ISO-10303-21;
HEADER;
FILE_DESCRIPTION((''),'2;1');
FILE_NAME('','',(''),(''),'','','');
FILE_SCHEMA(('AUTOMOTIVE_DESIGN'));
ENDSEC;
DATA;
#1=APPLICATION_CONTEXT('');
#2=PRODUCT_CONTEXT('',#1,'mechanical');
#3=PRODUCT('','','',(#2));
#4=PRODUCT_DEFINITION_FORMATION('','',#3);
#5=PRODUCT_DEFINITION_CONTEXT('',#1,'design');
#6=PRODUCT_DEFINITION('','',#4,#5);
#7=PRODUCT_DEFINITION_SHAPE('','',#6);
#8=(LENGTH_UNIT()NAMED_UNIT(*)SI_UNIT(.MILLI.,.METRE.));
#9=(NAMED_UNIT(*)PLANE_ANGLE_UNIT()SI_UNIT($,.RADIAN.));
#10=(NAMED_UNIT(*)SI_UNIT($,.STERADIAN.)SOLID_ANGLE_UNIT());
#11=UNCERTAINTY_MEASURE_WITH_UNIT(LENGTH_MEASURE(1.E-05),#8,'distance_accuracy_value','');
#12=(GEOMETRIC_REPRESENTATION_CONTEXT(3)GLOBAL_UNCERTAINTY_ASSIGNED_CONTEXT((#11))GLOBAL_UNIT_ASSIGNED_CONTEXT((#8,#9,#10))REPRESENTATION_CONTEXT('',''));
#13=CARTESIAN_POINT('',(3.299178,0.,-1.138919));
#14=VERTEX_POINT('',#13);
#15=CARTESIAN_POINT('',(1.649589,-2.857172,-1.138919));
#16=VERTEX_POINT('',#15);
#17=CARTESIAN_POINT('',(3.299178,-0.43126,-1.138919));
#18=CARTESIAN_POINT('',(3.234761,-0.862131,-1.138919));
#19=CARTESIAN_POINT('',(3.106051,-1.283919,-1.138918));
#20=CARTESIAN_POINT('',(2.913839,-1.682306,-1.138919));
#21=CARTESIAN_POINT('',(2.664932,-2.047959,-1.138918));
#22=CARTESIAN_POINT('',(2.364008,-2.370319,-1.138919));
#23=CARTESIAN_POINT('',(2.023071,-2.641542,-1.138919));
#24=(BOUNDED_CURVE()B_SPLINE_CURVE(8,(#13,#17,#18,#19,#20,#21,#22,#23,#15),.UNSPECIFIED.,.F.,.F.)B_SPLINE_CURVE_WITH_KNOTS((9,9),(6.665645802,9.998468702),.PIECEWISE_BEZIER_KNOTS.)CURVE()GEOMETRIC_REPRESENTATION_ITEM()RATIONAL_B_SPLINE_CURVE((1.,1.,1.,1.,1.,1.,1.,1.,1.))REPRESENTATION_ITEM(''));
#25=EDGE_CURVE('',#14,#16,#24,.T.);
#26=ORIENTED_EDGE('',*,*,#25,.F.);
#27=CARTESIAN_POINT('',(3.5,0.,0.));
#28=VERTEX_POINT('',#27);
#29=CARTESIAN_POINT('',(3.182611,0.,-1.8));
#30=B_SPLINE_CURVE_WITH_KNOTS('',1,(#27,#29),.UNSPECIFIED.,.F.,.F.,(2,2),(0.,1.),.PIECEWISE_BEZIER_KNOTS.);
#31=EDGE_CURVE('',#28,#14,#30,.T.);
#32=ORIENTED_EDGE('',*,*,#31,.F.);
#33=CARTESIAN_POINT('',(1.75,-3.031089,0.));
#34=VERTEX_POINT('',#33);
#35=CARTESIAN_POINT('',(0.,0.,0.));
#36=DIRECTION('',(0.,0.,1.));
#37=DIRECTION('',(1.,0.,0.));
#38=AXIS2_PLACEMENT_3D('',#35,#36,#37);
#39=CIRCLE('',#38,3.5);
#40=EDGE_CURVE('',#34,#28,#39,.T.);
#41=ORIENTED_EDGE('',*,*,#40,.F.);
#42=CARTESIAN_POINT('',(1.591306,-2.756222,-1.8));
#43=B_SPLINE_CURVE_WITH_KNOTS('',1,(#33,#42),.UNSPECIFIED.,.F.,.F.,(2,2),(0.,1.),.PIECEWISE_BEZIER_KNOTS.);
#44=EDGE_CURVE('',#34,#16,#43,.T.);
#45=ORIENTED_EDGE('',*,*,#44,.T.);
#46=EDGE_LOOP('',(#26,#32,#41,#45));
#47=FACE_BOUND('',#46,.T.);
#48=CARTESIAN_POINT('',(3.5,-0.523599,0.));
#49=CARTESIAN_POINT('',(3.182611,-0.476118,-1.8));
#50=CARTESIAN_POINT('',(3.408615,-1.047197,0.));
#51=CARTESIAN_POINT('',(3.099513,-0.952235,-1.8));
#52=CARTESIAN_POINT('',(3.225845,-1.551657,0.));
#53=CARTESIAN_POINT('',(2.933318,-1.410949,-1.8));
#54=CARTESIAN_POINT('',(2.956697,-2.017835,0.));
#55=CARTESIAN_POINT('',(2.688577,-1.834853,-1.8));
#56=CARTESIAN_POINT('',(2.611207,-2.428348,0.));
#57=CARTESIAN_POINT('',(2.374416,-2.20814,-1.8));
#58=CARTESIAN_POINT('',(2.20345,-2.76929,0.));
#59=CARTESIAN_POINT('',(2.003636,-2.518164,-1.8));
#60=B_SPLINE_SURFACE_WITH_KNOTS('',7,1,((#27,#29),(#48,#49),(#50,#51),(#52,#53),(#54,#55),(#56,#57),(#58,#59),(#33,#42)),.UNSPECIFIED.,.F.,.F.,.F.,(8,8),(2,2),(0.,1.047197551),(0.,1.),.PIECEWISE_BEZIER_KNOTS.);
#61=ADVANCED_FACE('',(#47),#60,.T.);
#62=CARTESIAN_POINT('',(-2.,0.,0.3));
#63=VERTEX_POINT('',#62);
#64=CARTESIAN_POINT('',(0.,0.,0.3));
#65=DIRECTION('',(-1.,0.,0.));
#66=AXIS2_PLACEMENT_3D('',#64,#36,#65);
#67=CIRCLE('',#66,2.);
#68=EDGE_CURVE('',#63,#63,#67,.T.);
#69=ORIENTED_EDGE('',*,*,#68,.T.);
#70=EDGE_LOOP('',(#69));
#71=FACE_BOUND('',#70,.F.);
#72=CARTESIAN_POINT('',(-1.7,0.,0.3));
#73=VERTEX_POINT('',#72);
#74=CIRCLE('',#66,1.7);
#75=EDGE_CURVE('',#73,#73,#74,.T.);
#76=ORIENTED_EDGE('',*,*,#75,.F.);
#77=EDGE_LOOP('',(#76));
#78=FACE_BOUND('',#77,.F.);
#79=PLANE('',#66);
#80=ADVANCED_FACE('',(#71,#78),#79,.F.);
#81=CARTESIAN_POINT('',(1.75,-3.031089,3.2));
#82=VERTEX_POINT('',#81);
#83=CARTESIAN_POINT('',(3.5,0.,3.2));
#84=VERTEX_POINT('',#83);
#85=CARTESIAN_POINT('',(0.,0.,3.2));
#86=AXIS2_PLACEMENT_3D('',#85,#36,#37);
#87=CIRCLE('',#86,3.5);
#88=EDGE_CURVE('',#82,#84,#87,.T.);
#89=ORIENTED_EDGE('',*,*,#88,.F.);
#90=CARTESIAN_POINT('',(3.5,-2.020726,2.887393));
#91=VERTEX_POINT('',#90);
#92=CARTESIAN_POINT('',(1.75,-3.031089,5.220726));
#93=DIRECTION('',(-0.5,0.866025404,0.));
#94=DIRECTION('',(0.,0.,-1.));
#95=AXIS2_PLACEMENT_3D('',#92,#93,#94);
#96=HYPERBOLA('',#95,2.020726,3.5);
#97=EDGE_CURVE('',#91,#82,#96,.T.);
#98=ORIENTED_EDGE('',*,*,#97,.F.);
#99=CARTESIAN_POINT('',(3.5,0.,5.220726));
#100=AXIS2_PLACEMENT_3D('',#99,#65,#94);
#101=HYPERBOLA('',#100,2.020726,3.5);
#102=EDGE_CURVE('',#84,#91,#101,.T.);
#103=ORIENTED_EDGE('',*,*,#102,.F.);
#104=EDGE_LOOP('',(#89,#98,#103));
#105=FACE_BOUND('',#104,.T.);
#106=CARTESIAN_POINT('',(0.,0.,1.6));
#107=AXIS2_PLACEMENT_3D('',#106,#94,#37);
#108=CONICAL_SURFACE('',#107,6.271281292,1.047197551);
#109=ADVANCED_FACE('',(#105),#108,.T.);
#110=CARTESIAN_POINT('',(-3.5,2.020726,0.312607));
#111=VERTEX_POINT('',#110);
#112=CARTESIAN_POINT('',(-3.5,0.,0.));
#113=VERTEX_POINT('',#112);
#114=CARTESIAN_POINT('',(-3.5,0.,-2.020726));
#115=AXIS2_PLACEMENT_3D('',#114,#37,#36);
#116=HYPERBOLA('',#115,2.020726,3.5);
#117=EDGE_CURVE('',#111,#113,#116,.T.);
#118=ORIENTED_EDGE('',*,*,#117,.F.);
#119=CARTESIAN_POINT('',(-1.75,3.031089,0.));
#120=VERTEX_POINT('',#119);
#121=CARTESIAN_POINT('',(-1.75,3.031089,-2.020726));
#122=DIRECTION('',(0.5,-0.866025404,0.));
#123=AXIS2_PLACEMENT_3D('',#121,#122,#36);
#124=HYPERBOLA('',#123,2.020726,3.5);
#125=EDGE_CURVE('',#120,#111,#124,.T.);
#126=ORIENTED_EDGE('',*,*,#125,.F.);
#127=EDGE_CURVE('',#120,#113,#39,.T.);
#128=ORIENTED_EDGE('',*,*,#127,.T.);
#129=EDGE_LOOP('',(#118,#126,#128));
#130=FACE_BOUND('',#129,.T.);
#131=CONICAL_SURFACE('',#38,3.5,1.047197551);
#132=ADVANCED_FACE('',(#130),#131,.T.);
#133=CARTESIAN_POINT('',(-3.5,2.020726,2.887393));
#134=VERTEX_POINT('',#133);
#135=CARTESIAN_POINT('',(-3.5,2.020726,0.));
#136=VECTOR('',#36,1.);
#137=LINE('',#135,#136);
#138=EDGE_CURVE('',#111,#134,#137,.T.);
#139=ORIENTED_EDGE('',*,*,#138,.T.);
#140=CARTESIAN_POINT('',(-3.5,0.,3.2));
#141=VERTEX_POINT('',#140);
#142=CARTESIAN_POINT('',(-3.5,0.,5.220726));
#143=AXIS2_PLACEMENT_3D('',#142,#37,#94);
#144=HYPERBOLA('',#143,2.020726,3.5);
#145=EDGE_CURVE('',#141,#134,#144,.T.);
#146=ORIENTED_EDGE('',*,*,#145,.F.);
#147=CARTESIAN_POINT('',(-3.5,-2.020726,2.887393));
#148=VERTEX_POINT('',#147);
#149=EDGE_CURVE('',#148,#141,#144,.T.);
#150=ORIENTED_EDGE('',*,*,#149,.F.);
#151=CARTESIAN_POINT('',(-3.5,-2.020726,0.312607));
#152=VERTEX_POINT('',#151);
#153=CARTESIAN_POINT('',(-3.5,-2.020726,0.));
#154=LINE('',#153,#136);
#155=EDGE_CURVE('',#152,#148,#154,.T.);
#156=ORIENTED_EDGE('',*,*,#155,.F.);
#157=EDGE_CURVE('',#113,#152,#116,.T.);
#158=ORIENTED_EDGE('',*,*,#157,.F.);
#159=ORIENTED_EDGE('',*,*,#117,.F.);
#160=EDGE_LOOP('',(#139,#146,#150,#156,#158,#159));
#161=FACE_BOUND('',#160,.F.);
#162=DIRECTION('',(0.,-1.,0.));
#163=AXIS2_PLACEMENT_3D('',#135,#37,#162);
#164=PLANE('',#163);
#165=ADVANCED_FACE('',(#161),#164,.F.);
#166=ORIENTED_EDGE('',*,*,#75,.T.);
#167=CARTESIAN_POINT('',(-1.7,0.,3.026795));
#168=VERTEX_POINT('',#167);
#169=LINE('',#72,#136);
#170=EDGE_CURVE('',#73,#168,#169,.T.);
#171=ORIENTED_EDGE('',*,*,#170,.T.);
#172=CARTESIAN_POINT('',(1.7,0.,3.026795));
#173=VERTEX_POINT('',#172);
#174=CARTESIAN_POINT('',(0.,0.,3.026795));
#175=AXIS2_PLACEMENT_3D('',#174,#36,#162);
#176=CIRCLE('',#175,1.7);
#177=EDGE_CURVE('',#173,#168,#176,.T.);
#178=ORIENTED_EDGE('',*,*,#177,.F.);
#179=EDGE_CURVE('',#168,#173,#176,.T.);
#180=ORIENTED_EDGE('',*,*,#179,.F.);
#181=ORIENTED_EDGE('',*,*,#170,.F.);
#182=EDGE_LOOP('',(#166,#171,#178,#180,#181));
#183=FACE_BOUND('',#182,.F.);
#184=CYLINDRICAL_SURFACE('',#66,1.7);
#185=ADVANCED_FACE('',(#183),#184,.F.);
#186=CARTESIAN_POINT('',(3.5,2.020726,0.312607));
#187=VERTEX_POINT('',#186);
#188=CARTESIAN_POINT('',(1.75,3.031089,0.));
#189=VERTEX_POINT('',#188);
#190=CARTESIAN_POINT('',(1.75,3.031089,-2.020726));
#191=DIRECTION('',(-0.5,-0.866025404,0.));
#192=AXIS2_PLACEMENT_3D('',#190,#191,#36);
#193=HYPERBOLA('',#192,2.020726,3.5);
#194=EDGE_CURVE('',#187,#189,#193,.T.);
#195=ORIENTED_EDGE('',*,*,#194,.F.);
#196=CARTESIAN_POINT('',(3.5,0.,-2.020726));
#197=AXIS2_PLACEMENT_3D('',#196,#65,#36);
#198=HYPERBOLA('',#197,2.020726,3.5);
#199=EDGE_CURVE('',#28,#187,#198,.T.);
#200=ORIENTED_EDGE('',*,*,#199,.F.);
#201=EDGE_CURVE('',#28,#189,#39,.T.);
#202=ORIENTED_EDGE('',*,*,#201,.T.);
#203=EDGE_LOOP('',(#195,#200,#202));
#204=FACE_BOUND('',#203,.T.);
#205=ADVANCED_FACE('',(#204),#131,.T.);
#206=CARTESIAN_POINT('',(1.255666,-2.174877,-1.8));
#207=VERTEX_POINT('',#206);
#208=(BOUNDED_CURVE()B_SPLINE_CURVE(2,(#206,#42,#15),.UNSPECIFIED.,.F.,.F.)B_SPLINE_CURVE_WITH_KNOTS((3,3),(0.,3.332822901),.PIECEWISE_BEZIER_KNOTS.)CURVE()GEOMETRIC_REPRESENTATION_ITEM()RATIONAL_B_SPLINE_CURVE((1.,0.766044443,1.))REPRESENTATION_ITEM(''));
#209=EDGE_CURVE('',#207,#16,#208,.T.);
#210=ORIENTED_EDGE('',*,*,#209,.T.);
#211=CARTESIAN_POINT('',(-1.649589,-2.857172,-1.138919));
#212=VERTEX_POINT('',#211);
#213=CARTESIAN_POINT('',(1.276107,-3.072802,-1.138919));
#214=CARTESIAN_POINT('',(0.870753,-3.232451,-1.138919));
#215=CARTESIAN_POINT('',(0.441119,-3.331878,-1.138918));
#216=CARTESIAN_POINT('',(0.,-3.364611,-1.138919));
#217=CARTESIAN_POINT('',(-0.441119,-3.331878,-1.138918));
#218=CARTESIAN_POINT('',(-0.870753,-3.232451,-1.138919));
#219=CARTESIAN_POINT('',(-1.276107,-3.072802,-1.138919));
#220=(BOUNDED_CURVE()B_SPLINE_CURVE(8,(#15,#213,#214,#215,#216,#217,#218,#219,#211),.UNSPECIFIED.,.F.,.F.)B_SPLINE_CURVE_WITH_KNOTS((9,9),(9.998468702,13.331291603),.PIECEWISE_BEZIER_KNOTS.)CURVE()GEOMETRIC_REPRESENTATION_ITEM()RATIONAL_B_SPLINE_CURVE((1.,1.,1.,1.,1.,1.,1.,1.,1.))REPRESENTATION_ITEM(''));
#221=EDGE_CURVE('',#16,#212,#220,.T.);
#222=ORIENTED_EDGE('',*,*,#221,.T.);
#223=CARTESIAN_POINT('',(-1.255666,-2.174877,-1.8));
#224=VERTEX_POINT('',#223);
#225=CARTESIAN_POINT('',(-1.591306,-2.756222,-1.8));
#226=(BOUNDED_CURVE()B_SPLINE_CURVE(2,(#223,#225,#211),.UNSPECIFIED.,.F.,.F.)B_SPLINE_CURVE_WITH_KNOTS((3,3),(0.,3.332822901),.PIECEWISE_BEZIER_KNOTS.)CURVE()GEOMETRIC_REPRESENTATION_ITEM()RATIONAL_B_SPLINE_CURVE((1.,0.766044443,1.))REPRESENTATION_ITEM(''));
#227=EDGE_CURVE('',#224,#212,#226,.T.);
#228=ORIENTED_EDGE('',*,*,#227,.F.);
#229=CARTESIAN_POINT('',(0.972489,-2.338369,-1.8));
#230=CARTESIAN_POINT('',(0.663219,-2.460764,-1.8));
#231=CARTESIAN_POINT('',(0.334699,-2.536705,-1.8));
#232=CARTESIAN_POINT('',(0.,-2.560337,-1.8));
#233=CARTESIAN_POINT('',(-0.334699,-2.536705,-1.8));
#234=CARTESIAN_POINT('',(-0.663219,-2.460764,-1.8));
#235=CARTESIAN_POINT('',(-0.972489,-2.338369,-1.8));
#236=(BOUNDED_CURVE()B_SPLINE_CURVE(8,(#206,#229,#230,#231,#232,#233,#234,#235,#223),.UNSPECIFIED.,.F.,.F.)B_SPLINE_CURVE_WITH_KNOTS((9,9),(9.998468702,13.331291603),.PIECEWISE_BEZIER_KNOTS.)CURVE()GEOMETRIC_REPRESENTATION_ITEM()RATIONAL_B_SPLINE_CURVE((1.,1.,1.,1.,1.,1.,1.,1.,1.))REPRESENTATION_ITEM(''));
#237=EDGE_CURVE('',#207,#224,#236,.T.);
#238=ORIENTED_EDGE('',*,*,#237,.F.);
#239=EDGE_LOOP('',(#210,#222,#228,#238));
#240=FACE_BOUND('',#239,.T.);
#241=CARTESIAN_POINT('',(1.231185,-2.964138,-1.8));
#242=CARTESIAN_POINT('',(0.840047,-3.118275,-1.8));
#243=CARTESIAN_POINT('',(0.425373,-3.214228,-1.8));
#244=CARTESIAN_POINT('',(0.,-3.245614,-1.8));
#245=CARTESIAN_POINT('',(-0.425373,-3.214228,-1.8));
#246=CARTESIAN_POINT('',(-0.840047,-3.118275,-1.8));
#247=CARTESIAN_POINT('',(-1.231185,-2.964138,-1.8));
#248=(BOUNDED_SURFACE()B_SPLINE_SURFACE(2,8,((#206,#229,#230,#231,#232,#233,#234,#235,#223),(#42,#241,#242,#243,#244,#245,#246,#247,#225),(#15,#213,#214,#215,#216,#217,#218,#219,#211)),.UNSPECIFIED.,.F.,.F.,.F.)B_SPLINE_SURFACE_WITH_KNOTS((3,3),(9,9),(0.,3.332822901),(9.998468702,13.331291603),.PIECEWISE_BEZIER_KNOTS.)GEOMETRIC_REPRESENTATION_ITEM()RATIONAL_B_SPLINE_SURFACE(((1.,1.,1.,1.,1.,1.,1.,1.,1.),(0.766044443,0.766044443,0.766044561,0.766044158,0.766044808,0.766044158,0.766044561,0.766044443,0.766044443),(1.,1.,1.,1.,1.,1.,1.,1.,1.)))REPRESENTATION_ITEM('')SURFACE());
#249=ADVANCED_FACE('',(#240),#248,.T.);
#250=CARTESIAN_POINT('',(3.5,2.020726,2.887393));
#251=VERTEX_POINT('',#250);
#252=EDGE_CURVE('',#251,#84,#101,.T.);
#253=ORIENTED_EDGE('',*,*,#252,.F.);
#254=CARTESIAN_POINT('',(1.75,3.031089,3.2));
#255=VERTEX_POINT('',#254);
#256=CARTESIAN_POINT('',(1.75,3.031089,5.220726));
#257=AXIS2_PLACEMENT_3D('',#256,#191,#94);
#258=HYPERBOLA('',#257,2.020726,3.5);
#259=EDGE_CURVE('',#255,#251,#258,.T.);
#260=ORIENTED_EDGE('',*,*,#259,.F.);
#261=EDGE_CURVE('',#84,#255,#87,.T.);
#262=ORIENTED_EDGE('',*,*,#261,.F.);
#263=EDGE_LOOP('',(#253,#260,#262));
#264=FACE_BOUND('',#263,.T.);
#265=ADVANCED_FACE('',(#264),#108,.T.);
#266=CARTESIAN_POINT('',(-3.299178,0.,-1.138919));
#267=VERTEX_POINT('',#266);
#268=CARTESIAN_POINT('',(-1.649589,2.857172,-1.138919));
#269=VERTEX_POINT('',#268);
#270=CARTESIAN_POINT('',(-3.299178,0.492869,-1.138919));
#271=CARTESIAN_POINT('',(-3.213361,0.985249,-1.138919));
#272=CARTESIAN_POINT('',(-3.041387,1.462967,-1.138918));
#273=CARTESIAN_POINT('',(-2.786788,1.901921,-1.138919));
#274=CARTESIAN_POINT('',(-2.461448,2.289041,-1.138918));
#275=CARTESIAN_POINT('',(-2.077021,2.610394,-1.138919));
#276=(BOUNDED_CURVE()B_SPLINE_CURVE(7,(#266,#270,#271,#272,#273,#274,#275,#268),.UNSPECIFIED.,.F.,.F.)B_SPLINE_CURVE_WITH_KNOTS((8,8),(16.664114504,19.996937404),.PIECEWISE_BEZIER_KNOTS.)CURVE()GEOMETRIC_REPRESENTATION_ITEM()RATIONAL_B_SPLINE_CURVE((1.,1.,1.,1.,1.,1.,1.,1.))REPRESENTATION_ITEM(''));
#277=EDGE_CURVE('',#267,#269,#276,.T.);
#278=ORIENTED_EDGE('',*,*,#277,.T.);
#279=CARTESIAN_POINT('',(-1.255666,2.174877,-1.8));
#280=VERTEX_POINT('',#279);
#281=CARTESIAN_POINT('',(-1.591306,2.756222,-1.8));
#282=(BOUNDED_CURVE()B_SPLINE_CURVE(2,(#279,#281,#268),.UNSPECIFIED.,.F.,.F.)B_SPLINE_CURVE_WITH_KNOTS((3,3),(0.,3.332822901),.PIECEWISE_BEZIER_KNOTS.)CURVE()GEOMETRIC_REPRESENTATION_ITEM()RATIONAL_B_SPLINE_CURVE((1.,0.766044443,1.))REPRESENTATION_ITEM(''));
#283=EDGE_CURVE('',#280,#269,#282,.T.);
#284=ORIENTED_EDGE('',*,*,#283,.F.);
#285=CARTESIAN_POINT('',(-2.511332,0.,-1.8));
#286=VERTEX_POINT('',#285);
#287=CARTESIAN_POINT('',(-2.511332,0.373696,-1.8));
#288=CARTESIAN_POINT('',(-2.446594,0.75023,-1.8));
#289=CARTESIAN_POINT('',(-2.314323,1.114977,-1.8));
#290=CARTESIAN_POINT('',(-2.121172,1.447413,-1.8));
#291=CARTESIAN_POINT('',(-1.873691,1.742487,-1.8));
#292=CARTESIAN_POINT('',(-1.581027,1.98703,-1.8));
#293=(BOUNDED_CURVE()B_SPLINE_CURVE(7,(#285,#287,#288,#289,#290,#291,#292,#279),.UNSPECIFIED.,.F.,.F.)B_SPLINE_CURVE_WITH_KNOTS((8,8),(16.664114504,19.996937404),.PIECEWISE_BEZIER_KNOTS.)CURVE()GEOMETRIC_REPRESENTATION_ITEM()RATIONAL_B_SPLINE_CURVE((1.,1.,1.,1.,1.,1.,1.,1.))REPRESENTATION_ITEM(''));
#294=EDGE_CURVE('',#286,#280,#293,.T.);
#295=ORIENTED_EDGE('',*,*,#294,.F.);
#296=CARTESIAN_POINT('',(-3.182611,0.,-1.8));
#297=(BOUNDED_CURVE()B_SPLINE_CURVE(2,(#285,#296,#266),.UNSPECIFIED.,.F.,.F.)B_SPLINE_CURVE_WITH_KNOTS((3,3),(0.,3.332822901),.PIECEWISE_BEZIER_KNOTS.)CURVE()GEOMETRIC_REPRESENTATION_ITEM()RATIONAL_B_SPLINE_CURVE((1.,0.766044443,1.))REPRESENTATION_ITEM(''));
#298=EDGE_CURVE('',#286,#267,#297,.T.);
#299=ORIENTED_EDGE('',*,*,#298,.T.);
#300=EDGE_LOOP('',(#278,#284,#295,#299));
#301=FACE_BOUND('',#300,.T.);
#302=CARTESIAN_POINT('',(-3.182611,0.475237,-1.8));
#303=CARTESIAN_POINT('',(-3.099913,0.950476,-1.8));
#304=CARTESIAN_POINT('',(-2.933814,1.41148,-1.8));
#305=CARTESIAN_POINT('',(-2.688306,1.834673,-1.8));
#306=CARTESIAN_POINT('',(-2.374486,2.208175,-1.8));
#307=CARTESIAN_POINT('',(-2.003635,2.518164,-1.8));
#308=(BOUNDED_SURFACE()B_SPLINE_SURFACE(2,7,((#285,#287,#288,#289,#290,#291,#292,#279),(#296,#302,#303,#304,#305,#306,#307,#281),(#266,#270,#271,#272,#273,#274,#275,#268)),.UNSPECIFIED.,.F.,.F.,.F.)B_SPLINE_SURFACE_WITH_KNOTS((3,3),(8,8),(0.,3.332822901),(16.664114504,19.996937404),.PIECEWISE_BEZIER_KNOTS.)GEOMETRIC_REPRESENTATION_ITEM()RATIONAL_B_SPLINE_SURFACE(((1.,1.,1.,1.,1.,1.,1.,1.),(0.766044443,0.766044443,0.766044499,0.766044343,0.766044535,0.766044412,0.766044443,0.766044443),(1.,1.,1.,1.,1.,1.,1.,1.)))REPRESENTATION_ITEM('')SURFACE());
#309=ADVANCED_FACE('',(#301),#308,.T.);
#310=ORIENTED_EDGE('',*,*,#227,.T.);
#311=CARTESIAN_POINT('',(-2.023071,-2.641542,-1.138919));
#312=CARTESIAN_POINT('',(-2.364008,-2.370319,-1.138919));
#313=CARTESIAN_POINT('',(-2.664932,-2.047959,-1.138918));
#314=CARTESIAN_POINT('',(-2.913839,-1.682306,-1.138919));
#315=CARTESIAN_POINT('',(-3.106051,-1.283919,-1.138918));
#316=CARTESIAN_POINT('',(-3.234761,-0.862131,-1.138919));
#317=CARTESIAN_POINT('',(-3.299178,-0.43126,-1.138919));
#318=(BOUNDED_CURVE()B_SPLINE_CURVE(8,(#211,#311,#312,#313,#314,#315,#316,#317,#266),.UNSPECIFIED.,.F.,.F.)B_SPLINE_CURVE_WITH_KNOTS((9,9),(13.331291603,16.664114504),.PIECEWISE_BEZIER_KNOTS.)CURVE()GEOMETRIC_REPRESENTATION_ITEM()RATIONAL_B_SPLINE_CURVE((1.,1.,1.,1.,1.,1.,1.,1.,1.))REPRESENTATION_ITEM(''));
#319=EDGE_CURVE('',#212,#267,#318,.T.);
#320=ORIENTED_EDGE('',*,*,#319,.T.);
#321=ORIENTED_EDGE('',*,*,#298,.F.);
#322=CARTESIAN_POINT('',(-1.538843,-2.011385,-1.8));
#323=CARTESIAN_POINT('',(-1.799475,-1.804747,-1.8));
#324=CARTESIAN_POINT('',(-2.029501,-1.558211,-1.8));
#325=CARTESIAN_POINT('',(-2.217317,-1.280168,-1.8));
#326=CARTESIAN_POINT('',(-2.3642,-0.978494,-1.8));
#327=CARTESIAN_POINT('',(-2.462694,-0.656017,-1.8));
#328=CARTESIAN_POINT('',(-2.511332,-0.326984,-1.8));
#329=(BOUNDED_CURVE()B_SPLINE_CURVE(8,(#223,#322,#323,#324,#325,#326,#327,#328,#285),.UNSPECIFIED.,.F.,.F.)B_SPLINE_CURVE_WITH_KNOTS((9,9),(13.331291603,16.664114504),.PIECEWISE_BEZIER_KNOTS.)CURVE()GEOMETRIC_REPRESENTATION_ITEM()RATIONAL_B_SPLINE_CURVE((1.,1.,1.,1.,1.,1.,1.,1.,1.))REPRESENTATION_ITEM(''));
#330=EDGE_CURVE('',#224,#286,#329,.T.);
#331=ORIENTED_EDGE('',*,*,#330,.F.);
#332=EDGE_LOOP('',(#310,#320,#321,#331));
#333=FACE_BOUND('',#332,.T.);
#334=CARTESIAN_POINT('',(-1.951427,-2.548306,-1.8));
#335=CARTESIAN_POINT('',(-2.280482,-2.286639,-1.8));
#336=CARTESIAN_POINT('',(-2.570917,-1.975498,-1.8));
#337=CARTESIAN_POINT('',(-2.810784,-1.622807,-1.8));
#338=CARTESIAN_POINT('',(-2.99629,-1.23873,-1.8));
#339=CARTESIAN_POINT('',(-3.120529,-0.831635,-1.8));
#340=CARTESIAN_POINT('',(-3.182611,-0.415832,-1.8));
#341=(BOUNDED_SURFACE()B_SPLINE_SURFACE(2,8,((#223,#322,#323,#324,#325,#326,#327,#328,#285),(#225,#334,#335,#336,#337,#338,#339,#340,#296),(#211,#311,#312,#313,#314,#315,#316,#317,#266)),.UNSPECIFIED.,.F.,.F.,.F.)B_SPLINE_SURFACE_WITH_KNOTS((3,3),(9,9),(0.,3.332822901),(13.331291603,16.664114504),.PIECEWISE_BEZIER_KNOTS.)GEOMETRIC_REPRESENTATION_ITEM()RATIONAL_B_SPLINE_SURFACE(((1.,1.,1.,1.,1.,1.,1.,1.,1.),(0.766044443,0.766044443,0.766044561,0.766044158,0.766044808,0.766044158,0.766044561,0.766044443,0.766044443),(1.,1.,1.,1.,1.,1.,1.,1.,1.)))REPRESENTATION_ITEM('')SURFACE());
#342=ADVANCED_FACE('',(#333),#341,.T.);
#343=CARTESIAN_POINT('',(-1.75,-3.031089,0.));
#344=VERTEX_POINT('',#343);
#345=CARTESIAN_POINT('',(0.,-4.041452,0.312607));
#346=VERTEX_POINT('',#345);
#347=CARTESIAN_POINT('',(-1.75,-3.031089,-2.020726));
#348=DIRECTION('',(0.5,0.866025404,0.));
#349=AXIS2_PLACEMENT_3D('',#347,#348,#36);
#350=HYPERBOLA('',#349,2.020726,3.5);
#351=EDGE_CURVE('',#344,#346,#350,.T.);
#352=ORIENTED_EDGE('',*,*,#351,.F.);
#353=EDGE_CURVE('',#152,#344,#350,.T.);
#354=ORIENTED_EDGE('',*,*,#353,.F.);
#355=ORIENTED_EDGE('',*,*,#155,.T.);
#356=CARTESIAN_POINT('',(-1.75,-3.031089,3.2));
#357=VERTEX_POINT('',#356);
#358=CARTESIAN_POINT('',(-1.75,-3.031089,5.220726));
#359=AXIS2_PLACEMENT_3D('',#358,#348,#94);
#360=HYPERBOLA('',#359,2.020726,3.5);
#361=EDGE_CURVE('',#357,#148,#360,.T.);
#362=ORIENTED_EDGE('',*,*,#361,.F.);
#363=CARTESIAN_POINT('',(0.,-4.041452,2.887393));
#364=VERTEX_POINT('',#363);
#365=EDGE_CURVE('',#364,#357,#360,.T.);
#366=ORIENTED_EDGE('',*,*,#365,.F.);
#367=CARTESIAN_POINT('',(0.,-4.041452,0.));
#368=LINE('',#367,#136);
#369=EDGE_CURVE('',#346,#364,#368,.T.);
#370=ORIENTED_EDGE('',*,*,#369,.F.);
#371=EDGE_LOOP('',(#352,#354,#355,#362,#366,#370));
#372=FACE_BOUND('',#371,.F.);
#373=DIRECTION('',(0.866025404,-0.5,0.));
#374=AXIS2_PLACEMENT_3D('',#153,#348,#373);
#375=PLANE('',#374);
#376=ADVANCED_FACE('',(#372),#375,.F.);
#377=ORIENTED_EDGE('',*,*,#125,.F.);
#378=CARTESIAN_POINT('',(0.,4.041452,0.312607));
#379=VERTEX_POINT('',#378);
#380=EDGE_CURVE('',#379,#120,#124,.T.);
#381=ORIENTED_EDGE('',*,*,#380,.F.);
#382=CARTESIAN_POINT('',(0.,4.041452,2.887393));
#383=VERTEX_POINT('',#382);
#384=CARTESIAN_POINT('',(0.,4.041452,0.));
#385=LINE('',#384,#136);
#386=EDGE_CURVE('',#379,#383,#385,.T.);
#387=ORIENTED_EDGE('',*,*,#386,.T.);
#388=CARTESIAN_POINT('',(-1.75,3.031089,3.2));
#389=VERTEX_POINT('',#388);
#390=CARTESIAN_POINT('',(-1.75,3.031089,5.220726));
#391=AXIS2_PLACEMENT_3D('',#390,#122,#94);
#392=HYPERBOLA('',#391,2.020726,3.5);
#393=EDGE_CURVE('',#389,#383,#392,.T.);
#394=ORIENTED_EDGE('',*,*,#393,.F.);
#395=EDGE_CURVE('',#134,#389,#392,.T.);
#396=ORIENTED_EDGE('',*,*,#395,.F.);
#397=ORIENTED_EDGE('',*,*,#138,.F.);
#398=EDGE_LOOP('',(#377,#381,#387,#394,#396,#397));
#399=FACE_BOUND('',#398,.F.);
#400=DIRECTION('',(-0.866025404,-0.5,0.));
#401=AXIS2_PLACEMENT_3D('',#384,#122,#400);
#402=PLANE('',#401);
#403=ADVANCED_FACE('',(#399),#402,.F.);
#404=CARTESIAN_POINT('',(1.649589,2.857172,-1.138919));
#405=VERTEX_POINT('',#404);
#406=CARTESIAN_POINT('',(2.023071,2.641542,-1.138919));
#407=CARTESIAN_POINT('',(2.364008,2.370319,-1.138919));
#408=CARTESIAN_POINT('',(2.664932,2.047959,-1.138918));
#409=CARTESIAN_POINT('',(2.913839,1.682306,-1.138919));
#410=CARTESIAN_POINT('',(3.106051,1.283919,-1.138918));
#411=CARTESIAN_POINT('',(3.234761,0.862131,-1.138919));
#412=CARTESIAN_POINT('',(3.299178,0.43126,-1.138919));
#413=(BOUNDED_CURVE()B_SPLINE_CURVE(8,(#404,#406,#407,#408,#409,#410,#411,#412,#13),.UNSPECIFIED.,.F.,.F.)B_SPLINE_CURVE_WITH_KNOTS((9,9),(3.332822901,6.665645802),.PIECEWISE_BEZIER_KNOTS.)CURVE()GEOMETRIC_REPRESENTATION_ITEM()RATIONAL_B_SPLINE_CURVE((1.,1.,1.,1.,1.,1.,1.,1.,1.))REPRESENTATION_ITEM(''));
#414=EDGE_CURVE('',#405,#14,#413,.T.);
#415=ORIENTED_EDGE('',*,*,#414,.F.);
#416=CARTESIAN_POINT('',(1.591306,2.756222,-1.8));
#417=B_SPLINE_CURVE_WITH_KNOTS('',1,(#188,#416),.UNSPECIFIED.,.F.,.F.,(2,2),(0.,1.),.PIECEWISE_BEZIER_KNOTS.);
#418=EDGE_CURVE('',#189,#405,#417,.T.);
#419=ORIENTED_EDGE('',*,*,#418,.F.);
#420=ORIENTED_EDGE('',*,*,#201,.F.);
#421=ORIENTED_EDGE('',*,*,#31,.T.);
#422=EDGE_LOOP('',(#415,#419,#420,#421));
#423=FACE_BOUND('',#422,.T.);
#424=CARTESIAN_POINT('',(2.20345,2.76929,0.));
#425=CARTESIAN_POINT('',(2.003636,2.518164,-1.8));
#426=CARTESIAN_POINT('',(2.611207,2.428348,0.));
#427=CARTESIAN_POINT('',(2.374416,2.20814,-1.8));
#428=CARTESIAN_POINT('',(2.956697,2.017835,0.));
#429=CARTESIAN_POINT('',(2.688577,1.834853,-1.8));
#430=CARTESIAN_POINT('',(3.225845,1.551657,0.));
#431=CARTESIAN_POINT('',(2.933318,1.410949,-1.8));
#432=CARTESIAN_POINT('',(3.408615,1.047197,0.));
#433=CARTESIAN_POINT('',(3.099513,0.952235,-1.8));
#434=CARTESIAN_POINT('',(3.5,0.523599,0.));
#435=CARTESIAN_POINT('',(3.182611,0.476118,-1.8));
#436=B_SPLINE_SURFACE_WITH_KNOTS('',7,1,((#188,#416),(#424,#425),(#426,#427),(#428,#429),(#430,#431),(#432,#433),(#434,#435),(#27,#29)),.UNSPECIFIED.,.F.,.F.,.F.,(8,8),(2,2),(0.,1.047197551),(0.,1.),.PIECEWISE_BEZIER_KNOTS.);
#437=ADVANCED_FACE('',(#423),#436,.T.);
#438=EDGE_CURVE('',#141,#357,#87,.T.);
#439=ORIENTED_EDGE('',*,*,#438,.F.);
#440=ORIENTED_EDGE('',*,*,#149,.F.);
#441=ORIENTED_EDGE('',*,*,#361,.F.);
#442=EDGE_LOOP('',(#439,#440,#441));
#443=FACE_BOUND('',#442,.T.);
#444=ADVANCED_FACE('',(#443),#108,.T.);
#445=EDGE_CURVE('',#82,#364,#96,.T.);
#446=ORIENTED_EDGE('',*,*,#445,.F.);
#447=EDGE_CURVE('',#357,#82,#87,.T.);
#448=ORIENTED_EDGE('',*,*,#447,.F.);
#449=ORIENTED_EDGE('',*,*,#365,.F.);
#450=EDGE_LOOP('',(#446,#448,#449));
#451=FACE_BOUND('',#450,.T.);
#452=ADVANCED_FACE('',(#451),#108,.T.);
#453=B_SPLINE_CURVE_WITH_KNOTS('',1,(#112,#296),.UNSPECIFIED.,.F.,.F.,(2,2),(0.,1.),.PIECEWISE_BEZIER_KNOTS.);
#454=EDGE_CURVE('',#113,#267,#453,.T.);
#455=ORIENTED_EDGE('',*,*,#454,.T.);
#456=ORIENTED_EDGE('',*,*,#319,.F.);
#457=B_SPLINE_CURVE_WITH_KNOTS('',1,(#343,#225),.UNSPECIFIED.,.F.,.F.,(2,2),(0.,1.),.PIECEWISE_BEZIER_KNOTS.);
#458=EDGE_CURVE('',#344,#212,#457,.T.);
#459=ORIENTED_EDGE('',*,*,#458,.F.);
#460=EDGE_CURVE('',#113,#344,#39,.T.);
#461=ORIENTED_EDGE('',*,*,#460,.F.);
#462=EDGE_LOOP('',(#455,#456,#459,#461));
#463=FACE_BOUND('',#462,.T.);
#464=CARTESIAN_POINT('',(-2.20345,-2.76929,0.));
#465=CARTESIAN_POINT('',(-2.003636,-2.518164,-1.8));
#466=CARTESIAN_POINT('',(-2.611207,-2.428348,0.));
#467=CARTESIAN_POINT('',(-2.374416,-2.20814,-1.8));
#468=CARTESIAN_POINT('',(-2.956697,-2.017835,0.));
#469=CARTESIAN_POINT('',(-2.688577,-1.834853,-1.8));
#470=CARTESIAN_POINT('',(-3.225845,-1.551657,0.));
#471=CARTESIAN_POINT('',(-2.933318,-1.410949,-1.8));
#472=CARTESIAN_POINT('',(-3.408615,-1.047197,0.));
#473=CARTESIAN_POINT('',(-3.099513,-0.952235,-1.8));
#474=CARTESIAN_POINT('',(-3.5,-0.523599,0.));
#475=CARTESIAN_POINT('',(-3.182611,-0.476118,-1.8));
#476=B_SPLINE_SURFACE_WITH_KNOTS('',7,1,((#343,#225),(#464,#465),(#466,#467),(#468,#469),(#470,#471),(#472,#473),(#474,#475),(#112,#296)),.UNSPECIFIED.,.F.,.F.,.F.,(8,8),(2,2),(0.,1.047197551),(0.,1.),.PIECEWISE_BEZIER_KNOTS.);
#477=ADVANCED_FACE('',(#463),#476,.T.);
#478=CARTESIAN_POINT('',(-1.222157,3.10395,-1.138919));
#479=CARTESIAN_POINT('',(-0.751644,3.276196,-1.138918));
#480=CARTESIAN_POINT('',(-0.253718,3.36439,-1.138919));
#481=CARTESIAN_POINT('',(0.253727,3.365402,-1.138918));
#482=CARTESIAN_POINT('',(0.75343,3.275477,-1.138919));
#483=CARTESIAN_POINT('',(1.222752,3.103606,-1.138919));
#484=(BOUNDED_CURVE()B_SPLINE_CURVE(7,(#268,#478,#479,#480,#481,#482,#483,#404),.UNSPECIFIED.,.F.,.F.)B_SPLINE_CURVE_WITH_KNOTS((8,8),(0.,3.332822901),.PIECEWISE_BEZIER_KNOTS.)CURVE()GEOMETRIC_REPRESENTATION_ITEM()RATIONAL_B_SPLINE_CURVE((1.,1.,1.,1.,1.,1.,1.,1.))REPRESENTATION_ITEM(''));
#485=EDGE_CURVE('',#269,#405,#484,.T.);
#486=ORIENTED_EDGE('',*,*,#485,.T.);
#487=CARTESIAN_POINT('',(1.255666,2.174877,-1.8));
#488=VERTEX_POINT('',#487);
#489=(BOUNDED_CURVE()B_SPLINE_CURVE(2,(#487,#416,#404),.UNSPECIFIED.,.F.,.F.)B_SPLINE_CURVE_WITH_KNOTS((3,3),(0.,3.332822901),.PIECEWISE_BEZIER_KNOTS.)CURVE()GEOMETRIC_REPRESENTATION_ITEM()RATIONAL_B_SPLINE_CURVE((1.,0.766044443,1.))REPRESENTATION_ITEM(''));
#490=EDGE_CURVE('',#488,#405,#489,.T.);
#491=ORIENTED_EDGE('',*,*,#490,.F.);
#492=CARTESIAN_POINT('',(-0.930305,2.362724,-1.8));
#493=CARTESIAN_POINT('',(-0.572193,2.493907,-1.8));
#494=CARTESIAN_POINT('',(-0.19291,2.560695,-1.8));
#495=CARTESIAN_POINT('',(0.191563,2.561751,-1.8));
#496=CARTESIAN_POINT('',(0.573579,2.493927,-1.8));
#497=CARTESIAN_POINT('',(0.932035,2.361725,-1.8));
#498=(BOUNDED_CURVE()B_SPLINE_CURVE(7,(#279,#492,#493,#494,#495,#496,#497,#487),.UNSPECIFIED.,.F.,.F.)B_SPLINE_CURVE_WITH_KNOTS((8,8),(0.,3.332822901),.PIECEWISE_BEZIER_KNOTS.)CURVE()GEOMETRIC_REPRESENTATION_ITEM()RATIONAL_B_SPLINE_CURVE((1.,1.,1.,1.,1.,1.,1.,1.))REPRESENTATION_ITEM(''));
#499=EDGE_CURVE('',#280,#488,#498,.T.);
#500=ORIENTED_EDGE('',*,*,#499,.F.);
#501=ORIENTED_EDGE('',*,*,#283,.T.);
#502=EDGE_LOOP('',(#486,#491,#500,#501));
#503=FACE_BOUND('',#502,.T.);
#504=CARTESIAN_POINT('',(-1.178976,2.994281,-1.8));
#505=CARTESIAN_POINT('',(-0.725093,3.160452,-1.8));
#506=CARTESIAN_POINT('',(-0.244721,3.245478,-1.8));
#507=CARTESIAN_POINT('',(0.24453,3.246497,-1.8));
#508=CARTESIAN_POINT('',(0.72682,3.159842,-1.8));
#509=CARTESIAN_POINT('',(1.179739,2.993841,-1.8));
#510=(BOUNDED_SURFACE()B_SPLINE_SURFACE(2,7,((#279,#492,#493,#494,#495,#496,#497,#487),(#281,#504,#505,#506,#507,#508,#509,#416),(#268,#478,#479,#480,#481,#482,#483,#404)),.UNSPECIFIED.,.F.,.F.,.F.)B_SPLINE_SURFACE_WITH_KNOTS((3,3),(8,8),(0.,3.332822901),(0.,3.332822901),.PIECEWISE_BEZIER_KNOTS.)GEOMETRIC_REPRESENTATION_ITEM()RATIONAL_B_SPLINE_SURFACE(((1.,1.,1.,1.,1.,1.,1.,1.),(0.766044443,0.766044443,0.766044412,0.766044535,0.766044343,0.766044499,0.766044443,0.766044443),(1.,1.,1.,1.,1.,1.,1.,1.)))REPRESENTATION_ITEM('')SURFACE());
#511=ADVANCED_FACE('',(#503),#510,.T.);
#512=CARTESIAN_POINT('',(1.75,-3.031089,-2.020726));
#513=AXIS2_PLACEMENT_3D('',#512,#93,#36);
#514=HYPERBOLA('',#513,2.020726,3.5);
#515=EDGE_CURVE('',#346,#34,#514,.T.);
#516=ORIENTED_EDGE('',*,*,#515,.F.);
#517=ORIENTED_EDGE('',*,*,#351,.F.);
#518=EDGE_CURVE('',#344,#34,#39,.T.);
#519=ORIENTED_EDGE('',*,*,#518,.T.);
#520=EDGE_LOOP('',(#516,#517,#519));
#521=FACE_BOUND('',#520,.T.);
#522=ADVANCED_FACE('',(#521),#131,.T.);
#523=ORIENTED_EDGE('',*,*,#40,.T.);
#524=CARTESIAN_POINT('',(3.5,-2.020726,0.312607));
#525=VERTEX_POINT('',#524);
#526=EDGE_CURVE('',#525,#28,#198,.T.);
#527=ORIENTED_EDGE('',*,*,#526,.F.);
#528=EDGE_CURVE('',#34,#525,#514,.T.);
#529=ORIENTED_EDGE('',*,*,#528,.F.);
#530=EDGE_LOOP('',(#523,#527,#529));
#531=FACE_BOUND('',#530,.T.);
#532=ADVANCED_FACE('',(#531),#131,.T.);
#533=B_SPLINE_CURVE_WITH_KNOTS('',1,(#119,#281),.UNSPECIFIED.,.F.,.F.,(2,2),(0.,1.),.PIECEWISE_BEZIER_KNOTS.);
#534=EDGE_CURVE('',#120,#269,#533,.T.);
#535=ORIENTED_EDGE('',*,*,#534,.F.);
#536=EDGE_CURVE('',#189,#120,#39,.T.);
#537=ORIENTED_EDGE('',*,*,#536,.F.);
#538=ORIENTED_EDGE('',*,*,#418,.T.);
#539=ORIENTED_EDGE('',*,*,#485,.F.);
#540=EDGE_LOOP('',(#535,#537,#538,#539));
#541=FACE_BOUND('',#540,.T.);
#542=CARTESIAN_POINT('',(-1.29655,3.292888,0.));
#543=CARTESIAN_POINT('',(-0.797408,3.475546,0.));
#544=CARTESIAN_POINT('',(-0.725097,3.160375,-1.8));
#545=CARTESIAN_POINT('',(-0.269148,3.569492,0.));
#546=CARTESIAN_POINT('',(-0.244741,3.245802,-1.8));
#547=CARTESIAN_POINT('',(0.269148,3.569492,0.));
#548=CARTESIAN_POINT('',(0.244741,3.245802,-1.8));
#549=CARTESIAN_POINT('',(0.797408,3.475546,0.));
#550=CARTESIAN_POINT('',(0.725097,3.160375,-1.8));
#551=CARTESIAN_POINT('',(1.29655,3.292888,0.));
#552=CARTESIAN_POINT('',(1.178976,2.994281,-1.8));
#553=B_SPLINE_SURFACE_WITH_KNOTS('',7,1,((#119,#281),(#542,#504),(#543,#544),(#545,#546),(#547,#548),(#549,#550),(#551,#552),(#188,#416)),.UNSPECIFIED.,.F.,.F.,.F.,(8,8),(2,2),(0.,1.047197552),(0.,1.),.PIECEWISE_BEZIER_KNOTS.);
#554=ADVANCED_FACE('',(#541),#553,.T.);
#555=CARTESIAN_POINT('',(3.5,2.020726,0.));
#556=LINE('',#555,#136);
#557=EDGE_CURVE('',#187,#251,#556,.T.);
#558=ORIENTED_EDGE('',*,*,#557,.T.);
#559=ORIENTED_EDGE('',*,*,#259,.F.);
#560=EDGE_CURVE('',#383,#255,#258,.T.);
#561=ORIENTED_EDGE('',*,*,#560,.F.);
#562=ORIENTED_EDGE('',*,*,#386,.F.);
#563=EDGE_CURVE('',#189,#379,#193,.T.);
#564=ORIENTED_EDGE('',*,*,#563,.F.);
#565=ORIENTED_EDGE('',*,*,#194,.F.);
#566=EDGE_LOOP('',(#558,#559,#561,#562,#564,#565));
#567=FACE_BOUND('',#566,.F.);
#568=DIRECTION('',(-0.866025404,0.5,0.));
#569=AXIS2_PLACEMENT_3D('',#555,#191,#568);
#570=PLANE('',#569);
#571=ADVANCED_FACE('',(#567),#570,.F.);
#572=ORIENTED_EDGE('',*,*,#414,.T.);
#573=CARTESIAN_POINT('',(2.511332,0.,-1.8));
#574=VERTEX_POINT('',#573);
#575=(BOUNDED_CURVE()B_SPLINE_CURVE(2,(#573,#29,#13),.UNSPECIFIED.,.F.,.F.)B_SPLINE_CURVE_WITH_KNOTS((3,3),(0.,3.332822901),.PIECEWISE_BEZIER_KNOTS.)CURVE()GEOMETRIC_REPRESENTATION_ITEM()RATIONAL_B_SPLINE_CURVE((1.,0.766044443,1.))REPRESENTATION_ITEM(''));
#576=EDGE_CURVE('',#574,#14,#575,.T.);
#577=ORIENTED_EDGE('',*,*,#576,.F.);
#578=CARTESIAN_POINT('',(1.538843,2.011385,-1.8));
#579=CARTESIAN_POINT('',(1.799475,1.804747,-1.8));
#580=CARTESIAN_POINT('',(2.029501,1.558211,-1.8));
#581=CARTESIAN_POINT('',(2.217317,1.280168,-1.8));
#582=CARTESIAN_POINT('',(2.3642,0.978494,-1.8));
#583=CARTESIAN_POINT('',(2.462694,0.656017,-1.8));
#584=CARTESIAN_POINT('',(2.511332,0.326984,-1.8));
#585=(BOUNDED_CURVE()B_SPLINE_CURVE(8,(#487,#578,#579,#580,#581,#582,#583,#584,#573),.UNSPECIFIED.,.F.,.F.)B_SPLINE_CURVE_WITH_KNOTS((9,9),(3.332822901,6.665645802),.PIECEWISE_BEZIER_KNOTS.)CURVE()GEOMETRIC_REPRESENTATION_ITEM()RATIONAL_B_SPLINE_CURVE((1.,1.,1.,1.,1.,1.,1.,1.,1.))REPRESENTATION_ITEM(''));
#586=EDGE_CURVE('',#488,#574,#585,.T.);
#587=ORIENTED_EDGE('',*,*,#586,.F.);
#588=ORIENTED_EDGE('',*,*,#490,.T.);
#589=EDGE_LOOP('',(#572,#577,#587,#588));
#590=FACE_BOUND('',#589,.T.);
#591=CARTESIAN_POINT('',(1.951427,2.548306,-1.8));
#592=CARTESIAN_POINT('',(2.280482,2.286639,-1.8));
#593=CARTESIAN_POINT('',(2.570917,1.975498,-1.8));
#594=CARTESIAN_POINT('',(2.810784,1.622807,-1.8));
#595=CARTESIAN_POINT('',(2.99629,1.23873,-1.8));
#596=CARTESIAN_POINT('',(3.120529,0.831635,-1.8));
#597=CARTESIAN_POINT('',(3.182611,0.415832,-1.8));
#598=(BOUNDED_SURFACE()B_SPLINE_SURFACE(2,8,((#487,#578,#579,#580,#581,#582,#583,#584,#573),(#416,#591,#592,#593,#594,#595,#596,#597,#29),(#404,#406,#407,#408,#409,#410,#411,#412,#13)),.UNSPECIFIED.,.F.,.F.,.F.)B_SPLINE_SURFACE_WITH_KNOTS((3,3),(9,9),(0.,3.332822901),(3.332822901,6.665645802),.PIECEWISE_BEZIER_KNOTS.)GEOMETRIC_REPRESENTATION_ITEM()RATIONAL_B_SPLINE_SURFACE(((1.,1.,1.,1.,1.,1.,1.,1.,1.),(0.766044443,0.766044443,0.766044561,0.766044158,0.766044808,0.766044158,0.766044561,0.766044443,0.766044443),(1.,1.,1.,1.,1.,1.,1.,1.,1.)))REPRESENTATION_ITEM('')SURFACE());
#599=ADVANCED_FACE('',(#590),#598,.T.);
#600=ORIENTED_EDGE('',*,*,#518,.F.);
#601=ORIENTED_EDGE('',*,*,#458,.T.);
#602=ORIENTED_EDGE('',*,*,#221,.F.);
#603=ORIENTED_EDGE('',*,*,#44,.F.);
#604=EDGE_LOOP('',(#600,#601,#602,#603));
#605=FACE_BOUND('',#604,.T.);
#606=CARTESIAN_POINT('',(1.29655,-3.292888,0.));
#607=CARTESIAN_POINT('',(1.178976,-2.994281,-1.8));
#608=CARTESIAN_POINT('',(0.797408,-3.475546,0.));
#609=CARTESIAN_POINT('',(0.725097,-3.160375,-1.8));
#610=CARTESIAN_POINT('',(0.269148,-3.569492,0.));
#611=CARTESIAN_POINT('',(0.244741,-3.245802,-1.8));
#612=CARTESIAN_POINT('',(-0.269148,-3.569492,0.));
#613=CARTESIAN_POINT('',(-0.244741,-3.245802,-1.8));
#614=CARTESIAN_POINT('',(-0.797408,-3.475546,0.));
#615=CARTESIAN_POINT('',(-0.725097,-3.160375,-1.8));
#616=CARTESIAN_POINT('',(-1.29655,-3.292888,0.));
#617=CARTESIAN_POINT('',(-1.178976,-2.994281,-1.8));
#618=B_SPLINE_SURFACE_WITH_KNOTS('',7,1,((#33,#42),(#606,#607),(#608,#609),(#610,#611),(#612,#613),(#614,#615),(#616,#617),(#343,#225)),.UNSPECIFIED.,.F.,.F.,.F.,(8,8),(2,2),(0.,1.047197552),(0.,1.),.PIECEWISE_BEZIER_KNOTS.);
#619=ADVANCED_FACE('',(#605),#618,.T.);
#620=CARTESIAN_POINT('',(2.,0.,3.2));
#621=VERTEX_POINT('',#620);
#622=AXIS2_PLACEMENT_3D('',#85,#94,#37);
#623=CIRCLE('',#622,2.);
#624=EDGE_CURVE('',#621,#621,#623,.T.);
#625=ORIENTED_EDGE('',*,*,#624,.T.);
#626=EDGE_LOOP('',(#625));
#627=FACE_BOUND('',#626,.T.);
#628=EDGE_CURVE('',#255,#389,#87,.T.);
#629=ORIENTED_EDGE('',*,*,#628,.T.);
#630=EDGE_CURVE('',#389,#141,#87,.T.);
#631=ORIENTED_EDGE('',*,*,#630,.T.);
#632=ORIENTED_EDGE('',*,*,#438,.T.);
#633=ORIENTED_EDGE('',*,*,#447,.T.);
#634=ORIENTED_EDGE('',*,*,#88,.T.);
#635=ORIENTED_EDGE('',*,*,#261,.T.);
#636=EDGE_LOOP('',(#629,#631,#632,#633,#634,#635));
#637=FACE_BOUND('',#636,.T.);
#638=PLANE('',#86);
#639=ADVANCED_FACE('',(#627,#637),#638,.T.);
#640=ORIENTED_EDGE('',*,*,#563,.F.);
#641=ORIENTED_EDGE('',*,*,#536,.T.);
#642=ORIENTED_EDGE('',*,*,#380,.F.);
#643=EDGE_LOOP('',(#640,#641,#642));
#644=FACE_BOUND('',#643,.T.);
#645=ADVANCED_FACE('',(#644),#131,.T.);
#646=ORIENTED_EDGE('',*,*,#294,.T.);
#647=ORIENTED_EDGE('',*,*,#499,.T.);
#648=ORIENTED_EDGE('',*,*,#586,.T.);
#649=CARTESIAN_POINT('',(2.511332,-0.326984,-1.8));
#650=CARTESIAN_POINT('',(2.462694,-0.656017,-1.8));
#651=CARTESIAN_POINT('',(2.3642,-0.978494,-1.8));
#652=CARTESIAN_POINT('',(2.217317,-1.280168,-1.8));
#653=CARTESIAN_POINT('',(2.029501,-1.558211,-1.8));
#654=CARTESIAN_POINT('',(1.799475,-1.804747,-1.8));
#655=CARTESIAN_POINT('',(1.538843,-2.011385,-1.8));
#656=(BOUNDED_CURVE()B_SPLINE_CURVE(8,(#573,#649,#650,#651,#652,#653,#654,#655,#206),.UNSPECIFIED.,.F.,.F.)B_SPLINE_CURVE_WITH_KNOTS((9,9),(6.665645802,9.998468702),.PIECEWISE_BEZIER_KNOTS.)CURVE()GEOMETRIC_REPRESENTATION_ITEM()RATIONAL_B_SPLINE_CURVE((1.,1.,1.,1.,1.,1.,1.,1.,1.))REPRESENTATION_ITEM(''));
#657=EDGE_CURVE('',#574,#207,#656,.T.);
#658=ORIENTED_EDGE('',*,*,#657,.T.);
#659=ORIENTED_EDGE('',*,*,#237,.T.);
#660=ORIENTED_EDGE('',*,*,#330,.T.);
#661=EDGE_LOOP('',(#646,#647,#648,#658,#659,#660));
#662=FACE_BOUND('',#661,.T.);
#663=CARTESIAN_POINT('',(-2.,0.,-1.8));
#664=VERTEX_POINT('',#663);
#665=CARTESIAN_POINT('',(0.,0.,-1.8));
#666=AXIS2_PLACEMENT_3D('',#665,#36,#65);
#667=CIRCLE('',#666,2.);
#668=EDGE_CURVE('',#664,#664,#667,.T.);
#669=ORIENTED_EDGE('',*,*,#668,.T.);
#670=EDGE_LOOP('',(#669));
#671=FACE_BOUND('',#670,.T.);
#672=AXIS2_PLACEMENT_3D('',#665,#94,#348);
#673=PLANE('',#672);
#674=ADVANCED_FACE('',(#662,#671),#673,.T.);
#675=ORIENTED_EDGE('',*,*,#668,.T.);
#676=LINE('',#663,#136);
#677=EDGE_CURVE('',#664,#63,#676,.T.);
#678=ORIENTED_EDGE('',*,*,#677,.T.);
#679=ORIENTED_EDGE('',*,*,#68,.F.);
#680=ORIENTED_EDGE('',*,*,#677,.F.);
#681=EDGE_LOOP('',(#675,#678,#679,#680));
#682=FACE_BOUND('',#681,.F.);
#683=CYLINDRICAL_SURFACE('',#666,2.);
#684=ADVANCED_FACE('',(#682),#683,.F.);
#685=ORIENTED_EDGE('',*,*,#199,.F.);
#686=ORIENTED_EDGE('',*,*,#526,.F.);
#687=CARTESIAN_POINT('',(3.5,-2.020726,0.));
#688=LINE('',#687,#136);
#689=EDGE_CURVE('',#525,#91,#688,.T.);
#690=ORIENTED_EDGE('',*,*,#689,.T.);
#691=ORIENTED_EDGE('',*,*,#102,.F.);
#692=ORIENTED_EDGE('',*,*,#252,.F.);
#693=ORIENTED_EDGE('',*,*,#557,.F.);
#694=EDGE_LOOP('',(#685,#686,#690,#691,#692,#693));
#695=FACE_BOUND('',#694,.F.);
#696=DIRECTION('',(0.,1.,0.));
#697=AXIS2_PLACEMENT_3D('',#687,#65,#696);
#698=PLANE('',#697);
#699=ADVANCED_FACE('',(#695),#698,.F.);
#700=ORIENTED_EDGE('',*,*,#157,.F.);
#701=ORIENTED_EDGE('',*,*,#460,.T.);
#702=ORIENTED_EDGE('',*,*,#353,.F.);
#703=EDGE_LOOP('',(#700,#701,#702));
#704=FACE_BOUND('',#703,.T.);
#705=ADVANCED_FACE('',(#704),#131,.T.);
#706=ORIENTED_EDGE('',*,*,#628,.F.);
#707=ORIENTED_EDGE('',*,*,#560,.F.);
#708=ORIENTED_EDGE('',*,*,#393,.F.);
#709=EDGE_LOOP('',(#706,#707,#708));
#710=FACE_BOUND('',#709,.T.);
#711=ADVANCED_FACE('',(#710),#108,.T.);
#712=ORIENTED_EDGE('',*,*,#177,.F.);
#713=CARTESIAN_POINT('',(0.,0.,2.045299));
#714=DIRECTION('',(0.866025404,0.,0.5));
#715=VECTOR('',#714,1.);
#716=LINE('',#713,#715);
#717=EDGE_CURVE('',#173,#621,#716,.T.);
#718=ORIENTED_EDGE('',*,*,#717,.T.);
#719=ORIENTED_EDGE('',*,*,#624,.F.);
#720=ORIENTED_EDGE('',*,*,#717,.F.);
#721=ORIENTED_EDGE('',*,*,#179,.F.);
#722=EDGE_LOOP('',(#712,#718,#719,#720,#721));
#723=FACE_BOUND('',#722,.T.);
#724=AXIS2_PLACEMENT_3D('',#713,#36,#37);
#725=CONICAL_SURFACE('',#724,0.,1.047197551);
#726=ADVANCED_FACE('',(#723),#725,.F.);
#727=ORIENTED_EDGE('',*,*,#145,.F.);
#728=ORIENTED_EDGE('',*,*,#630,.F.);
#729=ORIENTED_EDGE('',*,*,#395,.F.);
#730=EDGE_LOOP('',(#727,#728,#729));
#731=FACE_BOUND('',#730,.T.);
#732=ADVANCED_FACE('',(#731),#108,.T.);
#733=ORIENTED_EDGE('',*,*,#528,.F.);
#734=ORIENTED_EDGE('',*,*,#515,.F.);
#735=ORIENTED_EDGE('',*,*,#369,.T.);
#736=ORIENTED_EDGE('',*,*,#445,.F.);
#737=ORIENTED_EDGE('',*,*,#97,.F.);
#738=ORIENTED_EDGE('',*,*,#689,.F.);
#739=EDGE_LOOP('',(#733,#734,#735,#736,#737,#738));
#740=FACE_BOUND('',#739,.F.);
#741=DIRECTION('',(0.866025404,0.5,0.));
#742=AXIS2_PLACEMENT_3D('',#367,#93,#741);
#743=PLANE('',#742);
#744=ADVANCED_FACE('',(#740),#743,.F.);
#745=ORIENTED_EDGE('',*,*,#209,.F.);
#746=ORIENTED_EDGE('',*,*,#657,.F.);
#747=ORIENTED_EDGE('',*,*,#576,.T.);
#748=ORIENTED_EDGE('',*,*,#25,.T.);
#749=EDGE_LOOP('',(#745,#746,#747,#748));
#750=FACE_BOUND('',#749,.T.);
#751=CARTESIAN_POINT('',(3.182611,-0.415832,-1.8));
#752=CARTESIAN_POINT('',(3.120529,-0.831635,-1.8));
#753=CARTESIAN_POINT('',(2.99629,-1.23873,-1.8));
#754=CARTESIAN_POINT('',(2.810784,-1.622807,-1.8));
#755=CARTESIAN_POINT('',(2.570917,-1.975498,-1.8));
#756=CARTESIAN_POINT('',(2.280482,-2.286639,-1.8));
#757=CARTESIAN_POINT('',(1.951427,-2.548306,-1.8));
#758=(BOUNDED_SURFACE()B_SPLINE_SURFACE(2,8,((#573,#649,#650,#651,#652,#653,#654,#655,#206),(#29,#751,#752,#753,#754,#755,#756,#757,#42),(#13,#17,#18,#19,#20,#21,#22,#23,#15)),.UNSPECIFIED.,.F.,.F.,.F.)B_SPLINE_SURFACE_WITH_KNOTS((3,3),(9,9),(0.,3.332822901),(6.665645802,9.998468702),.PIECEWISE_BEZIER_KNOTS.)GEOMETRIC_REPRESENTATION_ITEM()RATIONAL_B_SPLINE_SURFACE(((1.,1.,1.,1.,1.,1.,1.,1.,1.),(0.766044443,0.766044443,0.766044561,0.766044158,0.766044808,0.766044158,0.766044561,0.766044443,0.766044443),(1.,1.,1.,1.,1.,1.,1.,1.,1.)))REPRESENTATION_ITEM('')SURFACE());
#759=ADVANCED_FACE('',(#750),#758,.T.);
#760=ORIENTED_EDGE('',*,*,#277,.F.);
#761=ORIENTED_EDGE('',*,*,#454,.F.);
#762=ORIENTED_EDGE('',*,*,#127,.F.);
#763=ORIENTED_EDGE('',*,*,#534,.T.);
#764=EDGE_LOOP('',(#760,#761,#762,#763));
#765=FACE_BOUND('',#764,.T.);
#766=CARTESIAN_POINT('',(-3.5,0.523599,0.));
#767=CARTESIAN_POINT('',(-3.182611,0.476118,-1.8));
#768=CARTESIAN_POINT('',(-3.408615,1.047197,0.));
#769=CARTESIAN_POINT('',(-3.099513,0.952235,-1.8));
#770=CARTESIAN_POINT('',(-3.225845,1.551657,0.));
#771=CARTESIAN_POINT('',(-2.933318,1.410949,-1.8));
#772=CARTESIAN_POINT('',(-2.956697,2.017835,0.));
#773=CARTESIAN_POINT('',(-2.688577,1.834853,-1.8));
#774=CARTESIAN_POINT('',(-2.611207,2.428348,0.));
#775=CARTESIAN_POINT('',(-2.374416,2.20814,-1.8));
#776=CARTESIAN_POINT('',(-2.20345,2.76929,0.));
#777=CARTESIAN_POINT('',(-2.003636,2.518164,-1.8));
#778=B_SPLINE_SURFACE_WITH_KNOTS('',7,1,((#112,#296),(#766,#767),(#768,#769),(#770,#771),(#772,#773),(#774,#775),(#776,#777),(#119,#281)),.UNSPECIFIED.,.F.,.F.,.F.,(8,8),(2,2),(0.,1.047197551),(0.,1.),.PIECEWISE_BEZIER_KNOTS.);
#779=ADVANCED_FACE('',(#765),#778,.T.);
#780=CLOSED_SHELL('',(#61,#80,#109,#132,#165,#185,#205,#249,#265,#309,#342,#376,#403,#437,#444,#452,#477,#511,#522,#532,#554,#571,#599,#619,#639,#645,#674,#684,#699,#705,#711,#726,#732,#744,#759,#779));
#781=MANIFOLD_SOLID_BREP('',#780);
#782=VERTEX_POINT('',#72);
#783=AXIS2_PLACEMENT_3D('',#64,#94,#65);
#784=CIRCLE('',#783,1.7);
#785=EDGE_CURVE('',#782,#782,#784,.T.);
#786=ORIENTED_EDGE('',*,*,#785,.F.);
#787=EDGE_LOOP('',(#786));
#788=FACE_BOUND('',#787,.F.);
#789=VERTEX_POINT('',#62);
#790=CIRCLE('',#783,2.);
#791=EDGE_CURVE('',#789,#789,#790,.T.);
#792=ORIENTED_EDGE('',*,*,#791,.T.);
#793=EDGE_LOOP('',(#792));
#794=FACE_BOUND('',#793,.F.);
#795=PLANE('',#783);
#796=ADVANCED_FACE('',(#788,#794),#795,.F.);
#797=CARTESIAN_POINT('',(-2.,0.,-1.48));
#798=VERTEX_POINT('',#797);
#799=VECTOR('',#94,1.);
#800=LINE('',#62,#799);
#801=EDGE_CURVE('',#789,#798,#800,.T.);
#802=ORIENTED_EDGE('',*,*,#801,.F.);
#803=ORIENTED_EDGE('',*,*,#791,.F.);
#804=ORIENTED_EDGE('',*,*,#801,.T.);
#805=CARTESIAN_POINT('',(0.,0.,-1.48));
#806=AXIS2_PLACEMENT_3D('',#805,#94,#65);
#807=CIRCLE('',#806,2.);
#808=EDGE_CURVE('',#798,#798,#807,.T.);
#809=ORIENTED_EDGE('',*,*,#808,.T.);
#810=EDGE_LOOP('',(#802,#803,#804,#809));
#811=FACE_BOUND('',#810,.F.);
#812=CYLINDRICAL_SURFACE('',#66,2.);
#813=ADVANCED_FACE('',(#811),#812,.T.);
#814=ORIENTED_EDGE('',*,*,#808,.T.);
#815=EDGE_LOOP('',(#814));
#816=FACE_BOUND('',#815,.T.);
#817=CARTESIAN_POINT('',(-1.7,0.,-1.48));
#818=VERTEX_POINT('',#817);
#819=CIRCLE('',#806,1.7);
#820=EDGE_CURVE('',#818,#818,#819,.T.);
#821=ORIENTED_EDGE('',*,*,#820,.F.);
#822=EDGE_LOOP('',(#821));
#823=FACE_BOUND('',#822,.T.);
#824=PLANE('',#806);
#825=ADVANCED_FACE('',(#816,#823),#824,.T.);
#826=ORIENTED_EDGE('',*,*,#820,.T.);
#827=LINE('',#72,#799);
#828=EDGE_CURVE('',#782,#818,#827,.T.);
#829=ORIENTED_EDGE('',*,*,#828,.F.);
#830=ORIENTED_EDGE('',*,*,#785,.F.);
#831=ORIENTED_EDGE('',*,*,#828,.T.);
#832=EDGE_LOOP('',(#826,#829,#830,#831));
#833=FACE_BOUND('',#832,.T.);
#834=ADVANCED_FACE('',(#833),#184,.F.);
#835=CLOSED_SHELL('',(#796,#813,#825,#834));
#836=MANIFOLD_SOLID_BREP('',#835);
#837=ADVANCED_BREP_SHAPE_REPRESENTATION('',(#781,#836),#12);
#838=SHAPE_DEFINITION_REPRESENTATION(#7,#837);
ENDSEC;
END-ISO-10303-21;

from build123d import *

# Parameters (mm, degrees)
VYSUNOUT1_DEPTH = 3.2
VYSUNOUT2_DEPTH = 1.8
VYSUNOUT2_TAPER = 10
ZAOBLIT1_R      = 0.8
SKICA5_R        = 2
SKICA5_R_2      = 1.7
VYSUNOUT3_DEPTH = 1.78


with BuildPart() as part:
    # Skica1 → Vysunout1 (new body)
    with BuildSketch(Plane.XY):
        Polygon((3.5, -2.020725942), (3.5, 2.020725942), (0, 4.041451884), (-3.5, 2.020725942), (-3.5, -2.020725942), (0, -4.041451884), align=None)
    extrude(amount=VYSUNOUT1_DEPTH)

    # Skica2 → Odebrat otočením1 (revolve, cut)
    with BuildSketch(Plane(origin=(0, 0, 0), x_dir=(1, 0, 0), z_dir=(0, 1, 0))):
        Polygon((6.271281292, -3.2), (6.271281292, -1.6), (3.5, -3.2), align=None)
        Polygon((6.271281292, 0), (3.5, 0), (6.271281292, -1.6), align=None)
    revolve(axis=Axis((0, 0, 0), (0, 0, 1)), mode=Mode.SUBTRACT)

    # Skica3 → Vysunout2 (add)
    with BuildSketch(Plane(origin=(0, 0, 0), x_dir=(-1, 0, 0), z_dir=(0, 0, -1))):
        with BuildLine():
            ThreePointArc((-1.75, 3.031088913), (-3.031088913, 1.75), (-3.5, 0))
            ThreePointArc((-3.5, 0), (-3.031088913, -1.75), (-1.75, -3.031088913))
            ThreePointArc((-1.75, -3.031088913), (0, -3.5), (1.75, -3.031088913))
            ThreePointArc((1.75, -3.031088913), (3.031088913, -1.75), (3.5, 0))
            ThreePointArc((3.5, 0), (3.031088913, 1.75), (1.75, 3.031088913))
            ThreePointArc((1.75, 3.031088913), (0, 3.5), (-1.75, 3.031088913))
        make_face()
    extrude(amount=VYSUNOUT2_DEPTH, taper=VYSUNOUT2_TAPER)

    # Zaoblit1
    zaoblit1_edges = [part.edges().sort_by_distance(p)[0] for p in [
        (0, 3.182611435, -1.8),
    ]]
    fillet(zaoblit1_edges, radius=ZAOBLIT1_R)

    # Skica4 → Odebrat otočením2 (revolve, cut)
    with BuildSketch(Plane(origin=(0, 0, 0), x_dir=(1, 0, 0), z_dir=(0, 1, 0))):
        Polygon((-2, 1.8), (-2, -0.3), (-1.7, -0.3), (-1.7, -3.2), (0, -3.2), (0, 1.8), align=None)
    revolve(axis=Axis((0, 0, -1.8), (0, 0, 1)), mode=Mode.SUBTRACT)

    # Skica6 → Odebrat otočením3 (revolve, cut)
    with BuildSketch(Plane(origin=(0, 0, 0), x_dir=(1, 0, 0), z_dir=(0, 1, 0))):
        Polygon((0, -2.045299462), (2, -3.2), (0, -3.2), align=None)
    revolve(axis=Axis((0, 0, 3.2), (0, 0, -1)), mode=Mode.SUBTRACT)


with BuildPart() as body_2:
    # Skica5 → Vysunout3 (new body)
    with BuildSketch(Plane(origin=(0, 0, 0.3), x_dir=(-1, 0, 0), z_dir=(0, 0, -1))):
        Circle(SKICA5_R)
        Circle(SKICA5_R_2, mode=Mode.SUBTRACT)
    extrude(amount=VYSUNOUT3_DEPTH)


solid = Compound([part.part, body_2.part])
